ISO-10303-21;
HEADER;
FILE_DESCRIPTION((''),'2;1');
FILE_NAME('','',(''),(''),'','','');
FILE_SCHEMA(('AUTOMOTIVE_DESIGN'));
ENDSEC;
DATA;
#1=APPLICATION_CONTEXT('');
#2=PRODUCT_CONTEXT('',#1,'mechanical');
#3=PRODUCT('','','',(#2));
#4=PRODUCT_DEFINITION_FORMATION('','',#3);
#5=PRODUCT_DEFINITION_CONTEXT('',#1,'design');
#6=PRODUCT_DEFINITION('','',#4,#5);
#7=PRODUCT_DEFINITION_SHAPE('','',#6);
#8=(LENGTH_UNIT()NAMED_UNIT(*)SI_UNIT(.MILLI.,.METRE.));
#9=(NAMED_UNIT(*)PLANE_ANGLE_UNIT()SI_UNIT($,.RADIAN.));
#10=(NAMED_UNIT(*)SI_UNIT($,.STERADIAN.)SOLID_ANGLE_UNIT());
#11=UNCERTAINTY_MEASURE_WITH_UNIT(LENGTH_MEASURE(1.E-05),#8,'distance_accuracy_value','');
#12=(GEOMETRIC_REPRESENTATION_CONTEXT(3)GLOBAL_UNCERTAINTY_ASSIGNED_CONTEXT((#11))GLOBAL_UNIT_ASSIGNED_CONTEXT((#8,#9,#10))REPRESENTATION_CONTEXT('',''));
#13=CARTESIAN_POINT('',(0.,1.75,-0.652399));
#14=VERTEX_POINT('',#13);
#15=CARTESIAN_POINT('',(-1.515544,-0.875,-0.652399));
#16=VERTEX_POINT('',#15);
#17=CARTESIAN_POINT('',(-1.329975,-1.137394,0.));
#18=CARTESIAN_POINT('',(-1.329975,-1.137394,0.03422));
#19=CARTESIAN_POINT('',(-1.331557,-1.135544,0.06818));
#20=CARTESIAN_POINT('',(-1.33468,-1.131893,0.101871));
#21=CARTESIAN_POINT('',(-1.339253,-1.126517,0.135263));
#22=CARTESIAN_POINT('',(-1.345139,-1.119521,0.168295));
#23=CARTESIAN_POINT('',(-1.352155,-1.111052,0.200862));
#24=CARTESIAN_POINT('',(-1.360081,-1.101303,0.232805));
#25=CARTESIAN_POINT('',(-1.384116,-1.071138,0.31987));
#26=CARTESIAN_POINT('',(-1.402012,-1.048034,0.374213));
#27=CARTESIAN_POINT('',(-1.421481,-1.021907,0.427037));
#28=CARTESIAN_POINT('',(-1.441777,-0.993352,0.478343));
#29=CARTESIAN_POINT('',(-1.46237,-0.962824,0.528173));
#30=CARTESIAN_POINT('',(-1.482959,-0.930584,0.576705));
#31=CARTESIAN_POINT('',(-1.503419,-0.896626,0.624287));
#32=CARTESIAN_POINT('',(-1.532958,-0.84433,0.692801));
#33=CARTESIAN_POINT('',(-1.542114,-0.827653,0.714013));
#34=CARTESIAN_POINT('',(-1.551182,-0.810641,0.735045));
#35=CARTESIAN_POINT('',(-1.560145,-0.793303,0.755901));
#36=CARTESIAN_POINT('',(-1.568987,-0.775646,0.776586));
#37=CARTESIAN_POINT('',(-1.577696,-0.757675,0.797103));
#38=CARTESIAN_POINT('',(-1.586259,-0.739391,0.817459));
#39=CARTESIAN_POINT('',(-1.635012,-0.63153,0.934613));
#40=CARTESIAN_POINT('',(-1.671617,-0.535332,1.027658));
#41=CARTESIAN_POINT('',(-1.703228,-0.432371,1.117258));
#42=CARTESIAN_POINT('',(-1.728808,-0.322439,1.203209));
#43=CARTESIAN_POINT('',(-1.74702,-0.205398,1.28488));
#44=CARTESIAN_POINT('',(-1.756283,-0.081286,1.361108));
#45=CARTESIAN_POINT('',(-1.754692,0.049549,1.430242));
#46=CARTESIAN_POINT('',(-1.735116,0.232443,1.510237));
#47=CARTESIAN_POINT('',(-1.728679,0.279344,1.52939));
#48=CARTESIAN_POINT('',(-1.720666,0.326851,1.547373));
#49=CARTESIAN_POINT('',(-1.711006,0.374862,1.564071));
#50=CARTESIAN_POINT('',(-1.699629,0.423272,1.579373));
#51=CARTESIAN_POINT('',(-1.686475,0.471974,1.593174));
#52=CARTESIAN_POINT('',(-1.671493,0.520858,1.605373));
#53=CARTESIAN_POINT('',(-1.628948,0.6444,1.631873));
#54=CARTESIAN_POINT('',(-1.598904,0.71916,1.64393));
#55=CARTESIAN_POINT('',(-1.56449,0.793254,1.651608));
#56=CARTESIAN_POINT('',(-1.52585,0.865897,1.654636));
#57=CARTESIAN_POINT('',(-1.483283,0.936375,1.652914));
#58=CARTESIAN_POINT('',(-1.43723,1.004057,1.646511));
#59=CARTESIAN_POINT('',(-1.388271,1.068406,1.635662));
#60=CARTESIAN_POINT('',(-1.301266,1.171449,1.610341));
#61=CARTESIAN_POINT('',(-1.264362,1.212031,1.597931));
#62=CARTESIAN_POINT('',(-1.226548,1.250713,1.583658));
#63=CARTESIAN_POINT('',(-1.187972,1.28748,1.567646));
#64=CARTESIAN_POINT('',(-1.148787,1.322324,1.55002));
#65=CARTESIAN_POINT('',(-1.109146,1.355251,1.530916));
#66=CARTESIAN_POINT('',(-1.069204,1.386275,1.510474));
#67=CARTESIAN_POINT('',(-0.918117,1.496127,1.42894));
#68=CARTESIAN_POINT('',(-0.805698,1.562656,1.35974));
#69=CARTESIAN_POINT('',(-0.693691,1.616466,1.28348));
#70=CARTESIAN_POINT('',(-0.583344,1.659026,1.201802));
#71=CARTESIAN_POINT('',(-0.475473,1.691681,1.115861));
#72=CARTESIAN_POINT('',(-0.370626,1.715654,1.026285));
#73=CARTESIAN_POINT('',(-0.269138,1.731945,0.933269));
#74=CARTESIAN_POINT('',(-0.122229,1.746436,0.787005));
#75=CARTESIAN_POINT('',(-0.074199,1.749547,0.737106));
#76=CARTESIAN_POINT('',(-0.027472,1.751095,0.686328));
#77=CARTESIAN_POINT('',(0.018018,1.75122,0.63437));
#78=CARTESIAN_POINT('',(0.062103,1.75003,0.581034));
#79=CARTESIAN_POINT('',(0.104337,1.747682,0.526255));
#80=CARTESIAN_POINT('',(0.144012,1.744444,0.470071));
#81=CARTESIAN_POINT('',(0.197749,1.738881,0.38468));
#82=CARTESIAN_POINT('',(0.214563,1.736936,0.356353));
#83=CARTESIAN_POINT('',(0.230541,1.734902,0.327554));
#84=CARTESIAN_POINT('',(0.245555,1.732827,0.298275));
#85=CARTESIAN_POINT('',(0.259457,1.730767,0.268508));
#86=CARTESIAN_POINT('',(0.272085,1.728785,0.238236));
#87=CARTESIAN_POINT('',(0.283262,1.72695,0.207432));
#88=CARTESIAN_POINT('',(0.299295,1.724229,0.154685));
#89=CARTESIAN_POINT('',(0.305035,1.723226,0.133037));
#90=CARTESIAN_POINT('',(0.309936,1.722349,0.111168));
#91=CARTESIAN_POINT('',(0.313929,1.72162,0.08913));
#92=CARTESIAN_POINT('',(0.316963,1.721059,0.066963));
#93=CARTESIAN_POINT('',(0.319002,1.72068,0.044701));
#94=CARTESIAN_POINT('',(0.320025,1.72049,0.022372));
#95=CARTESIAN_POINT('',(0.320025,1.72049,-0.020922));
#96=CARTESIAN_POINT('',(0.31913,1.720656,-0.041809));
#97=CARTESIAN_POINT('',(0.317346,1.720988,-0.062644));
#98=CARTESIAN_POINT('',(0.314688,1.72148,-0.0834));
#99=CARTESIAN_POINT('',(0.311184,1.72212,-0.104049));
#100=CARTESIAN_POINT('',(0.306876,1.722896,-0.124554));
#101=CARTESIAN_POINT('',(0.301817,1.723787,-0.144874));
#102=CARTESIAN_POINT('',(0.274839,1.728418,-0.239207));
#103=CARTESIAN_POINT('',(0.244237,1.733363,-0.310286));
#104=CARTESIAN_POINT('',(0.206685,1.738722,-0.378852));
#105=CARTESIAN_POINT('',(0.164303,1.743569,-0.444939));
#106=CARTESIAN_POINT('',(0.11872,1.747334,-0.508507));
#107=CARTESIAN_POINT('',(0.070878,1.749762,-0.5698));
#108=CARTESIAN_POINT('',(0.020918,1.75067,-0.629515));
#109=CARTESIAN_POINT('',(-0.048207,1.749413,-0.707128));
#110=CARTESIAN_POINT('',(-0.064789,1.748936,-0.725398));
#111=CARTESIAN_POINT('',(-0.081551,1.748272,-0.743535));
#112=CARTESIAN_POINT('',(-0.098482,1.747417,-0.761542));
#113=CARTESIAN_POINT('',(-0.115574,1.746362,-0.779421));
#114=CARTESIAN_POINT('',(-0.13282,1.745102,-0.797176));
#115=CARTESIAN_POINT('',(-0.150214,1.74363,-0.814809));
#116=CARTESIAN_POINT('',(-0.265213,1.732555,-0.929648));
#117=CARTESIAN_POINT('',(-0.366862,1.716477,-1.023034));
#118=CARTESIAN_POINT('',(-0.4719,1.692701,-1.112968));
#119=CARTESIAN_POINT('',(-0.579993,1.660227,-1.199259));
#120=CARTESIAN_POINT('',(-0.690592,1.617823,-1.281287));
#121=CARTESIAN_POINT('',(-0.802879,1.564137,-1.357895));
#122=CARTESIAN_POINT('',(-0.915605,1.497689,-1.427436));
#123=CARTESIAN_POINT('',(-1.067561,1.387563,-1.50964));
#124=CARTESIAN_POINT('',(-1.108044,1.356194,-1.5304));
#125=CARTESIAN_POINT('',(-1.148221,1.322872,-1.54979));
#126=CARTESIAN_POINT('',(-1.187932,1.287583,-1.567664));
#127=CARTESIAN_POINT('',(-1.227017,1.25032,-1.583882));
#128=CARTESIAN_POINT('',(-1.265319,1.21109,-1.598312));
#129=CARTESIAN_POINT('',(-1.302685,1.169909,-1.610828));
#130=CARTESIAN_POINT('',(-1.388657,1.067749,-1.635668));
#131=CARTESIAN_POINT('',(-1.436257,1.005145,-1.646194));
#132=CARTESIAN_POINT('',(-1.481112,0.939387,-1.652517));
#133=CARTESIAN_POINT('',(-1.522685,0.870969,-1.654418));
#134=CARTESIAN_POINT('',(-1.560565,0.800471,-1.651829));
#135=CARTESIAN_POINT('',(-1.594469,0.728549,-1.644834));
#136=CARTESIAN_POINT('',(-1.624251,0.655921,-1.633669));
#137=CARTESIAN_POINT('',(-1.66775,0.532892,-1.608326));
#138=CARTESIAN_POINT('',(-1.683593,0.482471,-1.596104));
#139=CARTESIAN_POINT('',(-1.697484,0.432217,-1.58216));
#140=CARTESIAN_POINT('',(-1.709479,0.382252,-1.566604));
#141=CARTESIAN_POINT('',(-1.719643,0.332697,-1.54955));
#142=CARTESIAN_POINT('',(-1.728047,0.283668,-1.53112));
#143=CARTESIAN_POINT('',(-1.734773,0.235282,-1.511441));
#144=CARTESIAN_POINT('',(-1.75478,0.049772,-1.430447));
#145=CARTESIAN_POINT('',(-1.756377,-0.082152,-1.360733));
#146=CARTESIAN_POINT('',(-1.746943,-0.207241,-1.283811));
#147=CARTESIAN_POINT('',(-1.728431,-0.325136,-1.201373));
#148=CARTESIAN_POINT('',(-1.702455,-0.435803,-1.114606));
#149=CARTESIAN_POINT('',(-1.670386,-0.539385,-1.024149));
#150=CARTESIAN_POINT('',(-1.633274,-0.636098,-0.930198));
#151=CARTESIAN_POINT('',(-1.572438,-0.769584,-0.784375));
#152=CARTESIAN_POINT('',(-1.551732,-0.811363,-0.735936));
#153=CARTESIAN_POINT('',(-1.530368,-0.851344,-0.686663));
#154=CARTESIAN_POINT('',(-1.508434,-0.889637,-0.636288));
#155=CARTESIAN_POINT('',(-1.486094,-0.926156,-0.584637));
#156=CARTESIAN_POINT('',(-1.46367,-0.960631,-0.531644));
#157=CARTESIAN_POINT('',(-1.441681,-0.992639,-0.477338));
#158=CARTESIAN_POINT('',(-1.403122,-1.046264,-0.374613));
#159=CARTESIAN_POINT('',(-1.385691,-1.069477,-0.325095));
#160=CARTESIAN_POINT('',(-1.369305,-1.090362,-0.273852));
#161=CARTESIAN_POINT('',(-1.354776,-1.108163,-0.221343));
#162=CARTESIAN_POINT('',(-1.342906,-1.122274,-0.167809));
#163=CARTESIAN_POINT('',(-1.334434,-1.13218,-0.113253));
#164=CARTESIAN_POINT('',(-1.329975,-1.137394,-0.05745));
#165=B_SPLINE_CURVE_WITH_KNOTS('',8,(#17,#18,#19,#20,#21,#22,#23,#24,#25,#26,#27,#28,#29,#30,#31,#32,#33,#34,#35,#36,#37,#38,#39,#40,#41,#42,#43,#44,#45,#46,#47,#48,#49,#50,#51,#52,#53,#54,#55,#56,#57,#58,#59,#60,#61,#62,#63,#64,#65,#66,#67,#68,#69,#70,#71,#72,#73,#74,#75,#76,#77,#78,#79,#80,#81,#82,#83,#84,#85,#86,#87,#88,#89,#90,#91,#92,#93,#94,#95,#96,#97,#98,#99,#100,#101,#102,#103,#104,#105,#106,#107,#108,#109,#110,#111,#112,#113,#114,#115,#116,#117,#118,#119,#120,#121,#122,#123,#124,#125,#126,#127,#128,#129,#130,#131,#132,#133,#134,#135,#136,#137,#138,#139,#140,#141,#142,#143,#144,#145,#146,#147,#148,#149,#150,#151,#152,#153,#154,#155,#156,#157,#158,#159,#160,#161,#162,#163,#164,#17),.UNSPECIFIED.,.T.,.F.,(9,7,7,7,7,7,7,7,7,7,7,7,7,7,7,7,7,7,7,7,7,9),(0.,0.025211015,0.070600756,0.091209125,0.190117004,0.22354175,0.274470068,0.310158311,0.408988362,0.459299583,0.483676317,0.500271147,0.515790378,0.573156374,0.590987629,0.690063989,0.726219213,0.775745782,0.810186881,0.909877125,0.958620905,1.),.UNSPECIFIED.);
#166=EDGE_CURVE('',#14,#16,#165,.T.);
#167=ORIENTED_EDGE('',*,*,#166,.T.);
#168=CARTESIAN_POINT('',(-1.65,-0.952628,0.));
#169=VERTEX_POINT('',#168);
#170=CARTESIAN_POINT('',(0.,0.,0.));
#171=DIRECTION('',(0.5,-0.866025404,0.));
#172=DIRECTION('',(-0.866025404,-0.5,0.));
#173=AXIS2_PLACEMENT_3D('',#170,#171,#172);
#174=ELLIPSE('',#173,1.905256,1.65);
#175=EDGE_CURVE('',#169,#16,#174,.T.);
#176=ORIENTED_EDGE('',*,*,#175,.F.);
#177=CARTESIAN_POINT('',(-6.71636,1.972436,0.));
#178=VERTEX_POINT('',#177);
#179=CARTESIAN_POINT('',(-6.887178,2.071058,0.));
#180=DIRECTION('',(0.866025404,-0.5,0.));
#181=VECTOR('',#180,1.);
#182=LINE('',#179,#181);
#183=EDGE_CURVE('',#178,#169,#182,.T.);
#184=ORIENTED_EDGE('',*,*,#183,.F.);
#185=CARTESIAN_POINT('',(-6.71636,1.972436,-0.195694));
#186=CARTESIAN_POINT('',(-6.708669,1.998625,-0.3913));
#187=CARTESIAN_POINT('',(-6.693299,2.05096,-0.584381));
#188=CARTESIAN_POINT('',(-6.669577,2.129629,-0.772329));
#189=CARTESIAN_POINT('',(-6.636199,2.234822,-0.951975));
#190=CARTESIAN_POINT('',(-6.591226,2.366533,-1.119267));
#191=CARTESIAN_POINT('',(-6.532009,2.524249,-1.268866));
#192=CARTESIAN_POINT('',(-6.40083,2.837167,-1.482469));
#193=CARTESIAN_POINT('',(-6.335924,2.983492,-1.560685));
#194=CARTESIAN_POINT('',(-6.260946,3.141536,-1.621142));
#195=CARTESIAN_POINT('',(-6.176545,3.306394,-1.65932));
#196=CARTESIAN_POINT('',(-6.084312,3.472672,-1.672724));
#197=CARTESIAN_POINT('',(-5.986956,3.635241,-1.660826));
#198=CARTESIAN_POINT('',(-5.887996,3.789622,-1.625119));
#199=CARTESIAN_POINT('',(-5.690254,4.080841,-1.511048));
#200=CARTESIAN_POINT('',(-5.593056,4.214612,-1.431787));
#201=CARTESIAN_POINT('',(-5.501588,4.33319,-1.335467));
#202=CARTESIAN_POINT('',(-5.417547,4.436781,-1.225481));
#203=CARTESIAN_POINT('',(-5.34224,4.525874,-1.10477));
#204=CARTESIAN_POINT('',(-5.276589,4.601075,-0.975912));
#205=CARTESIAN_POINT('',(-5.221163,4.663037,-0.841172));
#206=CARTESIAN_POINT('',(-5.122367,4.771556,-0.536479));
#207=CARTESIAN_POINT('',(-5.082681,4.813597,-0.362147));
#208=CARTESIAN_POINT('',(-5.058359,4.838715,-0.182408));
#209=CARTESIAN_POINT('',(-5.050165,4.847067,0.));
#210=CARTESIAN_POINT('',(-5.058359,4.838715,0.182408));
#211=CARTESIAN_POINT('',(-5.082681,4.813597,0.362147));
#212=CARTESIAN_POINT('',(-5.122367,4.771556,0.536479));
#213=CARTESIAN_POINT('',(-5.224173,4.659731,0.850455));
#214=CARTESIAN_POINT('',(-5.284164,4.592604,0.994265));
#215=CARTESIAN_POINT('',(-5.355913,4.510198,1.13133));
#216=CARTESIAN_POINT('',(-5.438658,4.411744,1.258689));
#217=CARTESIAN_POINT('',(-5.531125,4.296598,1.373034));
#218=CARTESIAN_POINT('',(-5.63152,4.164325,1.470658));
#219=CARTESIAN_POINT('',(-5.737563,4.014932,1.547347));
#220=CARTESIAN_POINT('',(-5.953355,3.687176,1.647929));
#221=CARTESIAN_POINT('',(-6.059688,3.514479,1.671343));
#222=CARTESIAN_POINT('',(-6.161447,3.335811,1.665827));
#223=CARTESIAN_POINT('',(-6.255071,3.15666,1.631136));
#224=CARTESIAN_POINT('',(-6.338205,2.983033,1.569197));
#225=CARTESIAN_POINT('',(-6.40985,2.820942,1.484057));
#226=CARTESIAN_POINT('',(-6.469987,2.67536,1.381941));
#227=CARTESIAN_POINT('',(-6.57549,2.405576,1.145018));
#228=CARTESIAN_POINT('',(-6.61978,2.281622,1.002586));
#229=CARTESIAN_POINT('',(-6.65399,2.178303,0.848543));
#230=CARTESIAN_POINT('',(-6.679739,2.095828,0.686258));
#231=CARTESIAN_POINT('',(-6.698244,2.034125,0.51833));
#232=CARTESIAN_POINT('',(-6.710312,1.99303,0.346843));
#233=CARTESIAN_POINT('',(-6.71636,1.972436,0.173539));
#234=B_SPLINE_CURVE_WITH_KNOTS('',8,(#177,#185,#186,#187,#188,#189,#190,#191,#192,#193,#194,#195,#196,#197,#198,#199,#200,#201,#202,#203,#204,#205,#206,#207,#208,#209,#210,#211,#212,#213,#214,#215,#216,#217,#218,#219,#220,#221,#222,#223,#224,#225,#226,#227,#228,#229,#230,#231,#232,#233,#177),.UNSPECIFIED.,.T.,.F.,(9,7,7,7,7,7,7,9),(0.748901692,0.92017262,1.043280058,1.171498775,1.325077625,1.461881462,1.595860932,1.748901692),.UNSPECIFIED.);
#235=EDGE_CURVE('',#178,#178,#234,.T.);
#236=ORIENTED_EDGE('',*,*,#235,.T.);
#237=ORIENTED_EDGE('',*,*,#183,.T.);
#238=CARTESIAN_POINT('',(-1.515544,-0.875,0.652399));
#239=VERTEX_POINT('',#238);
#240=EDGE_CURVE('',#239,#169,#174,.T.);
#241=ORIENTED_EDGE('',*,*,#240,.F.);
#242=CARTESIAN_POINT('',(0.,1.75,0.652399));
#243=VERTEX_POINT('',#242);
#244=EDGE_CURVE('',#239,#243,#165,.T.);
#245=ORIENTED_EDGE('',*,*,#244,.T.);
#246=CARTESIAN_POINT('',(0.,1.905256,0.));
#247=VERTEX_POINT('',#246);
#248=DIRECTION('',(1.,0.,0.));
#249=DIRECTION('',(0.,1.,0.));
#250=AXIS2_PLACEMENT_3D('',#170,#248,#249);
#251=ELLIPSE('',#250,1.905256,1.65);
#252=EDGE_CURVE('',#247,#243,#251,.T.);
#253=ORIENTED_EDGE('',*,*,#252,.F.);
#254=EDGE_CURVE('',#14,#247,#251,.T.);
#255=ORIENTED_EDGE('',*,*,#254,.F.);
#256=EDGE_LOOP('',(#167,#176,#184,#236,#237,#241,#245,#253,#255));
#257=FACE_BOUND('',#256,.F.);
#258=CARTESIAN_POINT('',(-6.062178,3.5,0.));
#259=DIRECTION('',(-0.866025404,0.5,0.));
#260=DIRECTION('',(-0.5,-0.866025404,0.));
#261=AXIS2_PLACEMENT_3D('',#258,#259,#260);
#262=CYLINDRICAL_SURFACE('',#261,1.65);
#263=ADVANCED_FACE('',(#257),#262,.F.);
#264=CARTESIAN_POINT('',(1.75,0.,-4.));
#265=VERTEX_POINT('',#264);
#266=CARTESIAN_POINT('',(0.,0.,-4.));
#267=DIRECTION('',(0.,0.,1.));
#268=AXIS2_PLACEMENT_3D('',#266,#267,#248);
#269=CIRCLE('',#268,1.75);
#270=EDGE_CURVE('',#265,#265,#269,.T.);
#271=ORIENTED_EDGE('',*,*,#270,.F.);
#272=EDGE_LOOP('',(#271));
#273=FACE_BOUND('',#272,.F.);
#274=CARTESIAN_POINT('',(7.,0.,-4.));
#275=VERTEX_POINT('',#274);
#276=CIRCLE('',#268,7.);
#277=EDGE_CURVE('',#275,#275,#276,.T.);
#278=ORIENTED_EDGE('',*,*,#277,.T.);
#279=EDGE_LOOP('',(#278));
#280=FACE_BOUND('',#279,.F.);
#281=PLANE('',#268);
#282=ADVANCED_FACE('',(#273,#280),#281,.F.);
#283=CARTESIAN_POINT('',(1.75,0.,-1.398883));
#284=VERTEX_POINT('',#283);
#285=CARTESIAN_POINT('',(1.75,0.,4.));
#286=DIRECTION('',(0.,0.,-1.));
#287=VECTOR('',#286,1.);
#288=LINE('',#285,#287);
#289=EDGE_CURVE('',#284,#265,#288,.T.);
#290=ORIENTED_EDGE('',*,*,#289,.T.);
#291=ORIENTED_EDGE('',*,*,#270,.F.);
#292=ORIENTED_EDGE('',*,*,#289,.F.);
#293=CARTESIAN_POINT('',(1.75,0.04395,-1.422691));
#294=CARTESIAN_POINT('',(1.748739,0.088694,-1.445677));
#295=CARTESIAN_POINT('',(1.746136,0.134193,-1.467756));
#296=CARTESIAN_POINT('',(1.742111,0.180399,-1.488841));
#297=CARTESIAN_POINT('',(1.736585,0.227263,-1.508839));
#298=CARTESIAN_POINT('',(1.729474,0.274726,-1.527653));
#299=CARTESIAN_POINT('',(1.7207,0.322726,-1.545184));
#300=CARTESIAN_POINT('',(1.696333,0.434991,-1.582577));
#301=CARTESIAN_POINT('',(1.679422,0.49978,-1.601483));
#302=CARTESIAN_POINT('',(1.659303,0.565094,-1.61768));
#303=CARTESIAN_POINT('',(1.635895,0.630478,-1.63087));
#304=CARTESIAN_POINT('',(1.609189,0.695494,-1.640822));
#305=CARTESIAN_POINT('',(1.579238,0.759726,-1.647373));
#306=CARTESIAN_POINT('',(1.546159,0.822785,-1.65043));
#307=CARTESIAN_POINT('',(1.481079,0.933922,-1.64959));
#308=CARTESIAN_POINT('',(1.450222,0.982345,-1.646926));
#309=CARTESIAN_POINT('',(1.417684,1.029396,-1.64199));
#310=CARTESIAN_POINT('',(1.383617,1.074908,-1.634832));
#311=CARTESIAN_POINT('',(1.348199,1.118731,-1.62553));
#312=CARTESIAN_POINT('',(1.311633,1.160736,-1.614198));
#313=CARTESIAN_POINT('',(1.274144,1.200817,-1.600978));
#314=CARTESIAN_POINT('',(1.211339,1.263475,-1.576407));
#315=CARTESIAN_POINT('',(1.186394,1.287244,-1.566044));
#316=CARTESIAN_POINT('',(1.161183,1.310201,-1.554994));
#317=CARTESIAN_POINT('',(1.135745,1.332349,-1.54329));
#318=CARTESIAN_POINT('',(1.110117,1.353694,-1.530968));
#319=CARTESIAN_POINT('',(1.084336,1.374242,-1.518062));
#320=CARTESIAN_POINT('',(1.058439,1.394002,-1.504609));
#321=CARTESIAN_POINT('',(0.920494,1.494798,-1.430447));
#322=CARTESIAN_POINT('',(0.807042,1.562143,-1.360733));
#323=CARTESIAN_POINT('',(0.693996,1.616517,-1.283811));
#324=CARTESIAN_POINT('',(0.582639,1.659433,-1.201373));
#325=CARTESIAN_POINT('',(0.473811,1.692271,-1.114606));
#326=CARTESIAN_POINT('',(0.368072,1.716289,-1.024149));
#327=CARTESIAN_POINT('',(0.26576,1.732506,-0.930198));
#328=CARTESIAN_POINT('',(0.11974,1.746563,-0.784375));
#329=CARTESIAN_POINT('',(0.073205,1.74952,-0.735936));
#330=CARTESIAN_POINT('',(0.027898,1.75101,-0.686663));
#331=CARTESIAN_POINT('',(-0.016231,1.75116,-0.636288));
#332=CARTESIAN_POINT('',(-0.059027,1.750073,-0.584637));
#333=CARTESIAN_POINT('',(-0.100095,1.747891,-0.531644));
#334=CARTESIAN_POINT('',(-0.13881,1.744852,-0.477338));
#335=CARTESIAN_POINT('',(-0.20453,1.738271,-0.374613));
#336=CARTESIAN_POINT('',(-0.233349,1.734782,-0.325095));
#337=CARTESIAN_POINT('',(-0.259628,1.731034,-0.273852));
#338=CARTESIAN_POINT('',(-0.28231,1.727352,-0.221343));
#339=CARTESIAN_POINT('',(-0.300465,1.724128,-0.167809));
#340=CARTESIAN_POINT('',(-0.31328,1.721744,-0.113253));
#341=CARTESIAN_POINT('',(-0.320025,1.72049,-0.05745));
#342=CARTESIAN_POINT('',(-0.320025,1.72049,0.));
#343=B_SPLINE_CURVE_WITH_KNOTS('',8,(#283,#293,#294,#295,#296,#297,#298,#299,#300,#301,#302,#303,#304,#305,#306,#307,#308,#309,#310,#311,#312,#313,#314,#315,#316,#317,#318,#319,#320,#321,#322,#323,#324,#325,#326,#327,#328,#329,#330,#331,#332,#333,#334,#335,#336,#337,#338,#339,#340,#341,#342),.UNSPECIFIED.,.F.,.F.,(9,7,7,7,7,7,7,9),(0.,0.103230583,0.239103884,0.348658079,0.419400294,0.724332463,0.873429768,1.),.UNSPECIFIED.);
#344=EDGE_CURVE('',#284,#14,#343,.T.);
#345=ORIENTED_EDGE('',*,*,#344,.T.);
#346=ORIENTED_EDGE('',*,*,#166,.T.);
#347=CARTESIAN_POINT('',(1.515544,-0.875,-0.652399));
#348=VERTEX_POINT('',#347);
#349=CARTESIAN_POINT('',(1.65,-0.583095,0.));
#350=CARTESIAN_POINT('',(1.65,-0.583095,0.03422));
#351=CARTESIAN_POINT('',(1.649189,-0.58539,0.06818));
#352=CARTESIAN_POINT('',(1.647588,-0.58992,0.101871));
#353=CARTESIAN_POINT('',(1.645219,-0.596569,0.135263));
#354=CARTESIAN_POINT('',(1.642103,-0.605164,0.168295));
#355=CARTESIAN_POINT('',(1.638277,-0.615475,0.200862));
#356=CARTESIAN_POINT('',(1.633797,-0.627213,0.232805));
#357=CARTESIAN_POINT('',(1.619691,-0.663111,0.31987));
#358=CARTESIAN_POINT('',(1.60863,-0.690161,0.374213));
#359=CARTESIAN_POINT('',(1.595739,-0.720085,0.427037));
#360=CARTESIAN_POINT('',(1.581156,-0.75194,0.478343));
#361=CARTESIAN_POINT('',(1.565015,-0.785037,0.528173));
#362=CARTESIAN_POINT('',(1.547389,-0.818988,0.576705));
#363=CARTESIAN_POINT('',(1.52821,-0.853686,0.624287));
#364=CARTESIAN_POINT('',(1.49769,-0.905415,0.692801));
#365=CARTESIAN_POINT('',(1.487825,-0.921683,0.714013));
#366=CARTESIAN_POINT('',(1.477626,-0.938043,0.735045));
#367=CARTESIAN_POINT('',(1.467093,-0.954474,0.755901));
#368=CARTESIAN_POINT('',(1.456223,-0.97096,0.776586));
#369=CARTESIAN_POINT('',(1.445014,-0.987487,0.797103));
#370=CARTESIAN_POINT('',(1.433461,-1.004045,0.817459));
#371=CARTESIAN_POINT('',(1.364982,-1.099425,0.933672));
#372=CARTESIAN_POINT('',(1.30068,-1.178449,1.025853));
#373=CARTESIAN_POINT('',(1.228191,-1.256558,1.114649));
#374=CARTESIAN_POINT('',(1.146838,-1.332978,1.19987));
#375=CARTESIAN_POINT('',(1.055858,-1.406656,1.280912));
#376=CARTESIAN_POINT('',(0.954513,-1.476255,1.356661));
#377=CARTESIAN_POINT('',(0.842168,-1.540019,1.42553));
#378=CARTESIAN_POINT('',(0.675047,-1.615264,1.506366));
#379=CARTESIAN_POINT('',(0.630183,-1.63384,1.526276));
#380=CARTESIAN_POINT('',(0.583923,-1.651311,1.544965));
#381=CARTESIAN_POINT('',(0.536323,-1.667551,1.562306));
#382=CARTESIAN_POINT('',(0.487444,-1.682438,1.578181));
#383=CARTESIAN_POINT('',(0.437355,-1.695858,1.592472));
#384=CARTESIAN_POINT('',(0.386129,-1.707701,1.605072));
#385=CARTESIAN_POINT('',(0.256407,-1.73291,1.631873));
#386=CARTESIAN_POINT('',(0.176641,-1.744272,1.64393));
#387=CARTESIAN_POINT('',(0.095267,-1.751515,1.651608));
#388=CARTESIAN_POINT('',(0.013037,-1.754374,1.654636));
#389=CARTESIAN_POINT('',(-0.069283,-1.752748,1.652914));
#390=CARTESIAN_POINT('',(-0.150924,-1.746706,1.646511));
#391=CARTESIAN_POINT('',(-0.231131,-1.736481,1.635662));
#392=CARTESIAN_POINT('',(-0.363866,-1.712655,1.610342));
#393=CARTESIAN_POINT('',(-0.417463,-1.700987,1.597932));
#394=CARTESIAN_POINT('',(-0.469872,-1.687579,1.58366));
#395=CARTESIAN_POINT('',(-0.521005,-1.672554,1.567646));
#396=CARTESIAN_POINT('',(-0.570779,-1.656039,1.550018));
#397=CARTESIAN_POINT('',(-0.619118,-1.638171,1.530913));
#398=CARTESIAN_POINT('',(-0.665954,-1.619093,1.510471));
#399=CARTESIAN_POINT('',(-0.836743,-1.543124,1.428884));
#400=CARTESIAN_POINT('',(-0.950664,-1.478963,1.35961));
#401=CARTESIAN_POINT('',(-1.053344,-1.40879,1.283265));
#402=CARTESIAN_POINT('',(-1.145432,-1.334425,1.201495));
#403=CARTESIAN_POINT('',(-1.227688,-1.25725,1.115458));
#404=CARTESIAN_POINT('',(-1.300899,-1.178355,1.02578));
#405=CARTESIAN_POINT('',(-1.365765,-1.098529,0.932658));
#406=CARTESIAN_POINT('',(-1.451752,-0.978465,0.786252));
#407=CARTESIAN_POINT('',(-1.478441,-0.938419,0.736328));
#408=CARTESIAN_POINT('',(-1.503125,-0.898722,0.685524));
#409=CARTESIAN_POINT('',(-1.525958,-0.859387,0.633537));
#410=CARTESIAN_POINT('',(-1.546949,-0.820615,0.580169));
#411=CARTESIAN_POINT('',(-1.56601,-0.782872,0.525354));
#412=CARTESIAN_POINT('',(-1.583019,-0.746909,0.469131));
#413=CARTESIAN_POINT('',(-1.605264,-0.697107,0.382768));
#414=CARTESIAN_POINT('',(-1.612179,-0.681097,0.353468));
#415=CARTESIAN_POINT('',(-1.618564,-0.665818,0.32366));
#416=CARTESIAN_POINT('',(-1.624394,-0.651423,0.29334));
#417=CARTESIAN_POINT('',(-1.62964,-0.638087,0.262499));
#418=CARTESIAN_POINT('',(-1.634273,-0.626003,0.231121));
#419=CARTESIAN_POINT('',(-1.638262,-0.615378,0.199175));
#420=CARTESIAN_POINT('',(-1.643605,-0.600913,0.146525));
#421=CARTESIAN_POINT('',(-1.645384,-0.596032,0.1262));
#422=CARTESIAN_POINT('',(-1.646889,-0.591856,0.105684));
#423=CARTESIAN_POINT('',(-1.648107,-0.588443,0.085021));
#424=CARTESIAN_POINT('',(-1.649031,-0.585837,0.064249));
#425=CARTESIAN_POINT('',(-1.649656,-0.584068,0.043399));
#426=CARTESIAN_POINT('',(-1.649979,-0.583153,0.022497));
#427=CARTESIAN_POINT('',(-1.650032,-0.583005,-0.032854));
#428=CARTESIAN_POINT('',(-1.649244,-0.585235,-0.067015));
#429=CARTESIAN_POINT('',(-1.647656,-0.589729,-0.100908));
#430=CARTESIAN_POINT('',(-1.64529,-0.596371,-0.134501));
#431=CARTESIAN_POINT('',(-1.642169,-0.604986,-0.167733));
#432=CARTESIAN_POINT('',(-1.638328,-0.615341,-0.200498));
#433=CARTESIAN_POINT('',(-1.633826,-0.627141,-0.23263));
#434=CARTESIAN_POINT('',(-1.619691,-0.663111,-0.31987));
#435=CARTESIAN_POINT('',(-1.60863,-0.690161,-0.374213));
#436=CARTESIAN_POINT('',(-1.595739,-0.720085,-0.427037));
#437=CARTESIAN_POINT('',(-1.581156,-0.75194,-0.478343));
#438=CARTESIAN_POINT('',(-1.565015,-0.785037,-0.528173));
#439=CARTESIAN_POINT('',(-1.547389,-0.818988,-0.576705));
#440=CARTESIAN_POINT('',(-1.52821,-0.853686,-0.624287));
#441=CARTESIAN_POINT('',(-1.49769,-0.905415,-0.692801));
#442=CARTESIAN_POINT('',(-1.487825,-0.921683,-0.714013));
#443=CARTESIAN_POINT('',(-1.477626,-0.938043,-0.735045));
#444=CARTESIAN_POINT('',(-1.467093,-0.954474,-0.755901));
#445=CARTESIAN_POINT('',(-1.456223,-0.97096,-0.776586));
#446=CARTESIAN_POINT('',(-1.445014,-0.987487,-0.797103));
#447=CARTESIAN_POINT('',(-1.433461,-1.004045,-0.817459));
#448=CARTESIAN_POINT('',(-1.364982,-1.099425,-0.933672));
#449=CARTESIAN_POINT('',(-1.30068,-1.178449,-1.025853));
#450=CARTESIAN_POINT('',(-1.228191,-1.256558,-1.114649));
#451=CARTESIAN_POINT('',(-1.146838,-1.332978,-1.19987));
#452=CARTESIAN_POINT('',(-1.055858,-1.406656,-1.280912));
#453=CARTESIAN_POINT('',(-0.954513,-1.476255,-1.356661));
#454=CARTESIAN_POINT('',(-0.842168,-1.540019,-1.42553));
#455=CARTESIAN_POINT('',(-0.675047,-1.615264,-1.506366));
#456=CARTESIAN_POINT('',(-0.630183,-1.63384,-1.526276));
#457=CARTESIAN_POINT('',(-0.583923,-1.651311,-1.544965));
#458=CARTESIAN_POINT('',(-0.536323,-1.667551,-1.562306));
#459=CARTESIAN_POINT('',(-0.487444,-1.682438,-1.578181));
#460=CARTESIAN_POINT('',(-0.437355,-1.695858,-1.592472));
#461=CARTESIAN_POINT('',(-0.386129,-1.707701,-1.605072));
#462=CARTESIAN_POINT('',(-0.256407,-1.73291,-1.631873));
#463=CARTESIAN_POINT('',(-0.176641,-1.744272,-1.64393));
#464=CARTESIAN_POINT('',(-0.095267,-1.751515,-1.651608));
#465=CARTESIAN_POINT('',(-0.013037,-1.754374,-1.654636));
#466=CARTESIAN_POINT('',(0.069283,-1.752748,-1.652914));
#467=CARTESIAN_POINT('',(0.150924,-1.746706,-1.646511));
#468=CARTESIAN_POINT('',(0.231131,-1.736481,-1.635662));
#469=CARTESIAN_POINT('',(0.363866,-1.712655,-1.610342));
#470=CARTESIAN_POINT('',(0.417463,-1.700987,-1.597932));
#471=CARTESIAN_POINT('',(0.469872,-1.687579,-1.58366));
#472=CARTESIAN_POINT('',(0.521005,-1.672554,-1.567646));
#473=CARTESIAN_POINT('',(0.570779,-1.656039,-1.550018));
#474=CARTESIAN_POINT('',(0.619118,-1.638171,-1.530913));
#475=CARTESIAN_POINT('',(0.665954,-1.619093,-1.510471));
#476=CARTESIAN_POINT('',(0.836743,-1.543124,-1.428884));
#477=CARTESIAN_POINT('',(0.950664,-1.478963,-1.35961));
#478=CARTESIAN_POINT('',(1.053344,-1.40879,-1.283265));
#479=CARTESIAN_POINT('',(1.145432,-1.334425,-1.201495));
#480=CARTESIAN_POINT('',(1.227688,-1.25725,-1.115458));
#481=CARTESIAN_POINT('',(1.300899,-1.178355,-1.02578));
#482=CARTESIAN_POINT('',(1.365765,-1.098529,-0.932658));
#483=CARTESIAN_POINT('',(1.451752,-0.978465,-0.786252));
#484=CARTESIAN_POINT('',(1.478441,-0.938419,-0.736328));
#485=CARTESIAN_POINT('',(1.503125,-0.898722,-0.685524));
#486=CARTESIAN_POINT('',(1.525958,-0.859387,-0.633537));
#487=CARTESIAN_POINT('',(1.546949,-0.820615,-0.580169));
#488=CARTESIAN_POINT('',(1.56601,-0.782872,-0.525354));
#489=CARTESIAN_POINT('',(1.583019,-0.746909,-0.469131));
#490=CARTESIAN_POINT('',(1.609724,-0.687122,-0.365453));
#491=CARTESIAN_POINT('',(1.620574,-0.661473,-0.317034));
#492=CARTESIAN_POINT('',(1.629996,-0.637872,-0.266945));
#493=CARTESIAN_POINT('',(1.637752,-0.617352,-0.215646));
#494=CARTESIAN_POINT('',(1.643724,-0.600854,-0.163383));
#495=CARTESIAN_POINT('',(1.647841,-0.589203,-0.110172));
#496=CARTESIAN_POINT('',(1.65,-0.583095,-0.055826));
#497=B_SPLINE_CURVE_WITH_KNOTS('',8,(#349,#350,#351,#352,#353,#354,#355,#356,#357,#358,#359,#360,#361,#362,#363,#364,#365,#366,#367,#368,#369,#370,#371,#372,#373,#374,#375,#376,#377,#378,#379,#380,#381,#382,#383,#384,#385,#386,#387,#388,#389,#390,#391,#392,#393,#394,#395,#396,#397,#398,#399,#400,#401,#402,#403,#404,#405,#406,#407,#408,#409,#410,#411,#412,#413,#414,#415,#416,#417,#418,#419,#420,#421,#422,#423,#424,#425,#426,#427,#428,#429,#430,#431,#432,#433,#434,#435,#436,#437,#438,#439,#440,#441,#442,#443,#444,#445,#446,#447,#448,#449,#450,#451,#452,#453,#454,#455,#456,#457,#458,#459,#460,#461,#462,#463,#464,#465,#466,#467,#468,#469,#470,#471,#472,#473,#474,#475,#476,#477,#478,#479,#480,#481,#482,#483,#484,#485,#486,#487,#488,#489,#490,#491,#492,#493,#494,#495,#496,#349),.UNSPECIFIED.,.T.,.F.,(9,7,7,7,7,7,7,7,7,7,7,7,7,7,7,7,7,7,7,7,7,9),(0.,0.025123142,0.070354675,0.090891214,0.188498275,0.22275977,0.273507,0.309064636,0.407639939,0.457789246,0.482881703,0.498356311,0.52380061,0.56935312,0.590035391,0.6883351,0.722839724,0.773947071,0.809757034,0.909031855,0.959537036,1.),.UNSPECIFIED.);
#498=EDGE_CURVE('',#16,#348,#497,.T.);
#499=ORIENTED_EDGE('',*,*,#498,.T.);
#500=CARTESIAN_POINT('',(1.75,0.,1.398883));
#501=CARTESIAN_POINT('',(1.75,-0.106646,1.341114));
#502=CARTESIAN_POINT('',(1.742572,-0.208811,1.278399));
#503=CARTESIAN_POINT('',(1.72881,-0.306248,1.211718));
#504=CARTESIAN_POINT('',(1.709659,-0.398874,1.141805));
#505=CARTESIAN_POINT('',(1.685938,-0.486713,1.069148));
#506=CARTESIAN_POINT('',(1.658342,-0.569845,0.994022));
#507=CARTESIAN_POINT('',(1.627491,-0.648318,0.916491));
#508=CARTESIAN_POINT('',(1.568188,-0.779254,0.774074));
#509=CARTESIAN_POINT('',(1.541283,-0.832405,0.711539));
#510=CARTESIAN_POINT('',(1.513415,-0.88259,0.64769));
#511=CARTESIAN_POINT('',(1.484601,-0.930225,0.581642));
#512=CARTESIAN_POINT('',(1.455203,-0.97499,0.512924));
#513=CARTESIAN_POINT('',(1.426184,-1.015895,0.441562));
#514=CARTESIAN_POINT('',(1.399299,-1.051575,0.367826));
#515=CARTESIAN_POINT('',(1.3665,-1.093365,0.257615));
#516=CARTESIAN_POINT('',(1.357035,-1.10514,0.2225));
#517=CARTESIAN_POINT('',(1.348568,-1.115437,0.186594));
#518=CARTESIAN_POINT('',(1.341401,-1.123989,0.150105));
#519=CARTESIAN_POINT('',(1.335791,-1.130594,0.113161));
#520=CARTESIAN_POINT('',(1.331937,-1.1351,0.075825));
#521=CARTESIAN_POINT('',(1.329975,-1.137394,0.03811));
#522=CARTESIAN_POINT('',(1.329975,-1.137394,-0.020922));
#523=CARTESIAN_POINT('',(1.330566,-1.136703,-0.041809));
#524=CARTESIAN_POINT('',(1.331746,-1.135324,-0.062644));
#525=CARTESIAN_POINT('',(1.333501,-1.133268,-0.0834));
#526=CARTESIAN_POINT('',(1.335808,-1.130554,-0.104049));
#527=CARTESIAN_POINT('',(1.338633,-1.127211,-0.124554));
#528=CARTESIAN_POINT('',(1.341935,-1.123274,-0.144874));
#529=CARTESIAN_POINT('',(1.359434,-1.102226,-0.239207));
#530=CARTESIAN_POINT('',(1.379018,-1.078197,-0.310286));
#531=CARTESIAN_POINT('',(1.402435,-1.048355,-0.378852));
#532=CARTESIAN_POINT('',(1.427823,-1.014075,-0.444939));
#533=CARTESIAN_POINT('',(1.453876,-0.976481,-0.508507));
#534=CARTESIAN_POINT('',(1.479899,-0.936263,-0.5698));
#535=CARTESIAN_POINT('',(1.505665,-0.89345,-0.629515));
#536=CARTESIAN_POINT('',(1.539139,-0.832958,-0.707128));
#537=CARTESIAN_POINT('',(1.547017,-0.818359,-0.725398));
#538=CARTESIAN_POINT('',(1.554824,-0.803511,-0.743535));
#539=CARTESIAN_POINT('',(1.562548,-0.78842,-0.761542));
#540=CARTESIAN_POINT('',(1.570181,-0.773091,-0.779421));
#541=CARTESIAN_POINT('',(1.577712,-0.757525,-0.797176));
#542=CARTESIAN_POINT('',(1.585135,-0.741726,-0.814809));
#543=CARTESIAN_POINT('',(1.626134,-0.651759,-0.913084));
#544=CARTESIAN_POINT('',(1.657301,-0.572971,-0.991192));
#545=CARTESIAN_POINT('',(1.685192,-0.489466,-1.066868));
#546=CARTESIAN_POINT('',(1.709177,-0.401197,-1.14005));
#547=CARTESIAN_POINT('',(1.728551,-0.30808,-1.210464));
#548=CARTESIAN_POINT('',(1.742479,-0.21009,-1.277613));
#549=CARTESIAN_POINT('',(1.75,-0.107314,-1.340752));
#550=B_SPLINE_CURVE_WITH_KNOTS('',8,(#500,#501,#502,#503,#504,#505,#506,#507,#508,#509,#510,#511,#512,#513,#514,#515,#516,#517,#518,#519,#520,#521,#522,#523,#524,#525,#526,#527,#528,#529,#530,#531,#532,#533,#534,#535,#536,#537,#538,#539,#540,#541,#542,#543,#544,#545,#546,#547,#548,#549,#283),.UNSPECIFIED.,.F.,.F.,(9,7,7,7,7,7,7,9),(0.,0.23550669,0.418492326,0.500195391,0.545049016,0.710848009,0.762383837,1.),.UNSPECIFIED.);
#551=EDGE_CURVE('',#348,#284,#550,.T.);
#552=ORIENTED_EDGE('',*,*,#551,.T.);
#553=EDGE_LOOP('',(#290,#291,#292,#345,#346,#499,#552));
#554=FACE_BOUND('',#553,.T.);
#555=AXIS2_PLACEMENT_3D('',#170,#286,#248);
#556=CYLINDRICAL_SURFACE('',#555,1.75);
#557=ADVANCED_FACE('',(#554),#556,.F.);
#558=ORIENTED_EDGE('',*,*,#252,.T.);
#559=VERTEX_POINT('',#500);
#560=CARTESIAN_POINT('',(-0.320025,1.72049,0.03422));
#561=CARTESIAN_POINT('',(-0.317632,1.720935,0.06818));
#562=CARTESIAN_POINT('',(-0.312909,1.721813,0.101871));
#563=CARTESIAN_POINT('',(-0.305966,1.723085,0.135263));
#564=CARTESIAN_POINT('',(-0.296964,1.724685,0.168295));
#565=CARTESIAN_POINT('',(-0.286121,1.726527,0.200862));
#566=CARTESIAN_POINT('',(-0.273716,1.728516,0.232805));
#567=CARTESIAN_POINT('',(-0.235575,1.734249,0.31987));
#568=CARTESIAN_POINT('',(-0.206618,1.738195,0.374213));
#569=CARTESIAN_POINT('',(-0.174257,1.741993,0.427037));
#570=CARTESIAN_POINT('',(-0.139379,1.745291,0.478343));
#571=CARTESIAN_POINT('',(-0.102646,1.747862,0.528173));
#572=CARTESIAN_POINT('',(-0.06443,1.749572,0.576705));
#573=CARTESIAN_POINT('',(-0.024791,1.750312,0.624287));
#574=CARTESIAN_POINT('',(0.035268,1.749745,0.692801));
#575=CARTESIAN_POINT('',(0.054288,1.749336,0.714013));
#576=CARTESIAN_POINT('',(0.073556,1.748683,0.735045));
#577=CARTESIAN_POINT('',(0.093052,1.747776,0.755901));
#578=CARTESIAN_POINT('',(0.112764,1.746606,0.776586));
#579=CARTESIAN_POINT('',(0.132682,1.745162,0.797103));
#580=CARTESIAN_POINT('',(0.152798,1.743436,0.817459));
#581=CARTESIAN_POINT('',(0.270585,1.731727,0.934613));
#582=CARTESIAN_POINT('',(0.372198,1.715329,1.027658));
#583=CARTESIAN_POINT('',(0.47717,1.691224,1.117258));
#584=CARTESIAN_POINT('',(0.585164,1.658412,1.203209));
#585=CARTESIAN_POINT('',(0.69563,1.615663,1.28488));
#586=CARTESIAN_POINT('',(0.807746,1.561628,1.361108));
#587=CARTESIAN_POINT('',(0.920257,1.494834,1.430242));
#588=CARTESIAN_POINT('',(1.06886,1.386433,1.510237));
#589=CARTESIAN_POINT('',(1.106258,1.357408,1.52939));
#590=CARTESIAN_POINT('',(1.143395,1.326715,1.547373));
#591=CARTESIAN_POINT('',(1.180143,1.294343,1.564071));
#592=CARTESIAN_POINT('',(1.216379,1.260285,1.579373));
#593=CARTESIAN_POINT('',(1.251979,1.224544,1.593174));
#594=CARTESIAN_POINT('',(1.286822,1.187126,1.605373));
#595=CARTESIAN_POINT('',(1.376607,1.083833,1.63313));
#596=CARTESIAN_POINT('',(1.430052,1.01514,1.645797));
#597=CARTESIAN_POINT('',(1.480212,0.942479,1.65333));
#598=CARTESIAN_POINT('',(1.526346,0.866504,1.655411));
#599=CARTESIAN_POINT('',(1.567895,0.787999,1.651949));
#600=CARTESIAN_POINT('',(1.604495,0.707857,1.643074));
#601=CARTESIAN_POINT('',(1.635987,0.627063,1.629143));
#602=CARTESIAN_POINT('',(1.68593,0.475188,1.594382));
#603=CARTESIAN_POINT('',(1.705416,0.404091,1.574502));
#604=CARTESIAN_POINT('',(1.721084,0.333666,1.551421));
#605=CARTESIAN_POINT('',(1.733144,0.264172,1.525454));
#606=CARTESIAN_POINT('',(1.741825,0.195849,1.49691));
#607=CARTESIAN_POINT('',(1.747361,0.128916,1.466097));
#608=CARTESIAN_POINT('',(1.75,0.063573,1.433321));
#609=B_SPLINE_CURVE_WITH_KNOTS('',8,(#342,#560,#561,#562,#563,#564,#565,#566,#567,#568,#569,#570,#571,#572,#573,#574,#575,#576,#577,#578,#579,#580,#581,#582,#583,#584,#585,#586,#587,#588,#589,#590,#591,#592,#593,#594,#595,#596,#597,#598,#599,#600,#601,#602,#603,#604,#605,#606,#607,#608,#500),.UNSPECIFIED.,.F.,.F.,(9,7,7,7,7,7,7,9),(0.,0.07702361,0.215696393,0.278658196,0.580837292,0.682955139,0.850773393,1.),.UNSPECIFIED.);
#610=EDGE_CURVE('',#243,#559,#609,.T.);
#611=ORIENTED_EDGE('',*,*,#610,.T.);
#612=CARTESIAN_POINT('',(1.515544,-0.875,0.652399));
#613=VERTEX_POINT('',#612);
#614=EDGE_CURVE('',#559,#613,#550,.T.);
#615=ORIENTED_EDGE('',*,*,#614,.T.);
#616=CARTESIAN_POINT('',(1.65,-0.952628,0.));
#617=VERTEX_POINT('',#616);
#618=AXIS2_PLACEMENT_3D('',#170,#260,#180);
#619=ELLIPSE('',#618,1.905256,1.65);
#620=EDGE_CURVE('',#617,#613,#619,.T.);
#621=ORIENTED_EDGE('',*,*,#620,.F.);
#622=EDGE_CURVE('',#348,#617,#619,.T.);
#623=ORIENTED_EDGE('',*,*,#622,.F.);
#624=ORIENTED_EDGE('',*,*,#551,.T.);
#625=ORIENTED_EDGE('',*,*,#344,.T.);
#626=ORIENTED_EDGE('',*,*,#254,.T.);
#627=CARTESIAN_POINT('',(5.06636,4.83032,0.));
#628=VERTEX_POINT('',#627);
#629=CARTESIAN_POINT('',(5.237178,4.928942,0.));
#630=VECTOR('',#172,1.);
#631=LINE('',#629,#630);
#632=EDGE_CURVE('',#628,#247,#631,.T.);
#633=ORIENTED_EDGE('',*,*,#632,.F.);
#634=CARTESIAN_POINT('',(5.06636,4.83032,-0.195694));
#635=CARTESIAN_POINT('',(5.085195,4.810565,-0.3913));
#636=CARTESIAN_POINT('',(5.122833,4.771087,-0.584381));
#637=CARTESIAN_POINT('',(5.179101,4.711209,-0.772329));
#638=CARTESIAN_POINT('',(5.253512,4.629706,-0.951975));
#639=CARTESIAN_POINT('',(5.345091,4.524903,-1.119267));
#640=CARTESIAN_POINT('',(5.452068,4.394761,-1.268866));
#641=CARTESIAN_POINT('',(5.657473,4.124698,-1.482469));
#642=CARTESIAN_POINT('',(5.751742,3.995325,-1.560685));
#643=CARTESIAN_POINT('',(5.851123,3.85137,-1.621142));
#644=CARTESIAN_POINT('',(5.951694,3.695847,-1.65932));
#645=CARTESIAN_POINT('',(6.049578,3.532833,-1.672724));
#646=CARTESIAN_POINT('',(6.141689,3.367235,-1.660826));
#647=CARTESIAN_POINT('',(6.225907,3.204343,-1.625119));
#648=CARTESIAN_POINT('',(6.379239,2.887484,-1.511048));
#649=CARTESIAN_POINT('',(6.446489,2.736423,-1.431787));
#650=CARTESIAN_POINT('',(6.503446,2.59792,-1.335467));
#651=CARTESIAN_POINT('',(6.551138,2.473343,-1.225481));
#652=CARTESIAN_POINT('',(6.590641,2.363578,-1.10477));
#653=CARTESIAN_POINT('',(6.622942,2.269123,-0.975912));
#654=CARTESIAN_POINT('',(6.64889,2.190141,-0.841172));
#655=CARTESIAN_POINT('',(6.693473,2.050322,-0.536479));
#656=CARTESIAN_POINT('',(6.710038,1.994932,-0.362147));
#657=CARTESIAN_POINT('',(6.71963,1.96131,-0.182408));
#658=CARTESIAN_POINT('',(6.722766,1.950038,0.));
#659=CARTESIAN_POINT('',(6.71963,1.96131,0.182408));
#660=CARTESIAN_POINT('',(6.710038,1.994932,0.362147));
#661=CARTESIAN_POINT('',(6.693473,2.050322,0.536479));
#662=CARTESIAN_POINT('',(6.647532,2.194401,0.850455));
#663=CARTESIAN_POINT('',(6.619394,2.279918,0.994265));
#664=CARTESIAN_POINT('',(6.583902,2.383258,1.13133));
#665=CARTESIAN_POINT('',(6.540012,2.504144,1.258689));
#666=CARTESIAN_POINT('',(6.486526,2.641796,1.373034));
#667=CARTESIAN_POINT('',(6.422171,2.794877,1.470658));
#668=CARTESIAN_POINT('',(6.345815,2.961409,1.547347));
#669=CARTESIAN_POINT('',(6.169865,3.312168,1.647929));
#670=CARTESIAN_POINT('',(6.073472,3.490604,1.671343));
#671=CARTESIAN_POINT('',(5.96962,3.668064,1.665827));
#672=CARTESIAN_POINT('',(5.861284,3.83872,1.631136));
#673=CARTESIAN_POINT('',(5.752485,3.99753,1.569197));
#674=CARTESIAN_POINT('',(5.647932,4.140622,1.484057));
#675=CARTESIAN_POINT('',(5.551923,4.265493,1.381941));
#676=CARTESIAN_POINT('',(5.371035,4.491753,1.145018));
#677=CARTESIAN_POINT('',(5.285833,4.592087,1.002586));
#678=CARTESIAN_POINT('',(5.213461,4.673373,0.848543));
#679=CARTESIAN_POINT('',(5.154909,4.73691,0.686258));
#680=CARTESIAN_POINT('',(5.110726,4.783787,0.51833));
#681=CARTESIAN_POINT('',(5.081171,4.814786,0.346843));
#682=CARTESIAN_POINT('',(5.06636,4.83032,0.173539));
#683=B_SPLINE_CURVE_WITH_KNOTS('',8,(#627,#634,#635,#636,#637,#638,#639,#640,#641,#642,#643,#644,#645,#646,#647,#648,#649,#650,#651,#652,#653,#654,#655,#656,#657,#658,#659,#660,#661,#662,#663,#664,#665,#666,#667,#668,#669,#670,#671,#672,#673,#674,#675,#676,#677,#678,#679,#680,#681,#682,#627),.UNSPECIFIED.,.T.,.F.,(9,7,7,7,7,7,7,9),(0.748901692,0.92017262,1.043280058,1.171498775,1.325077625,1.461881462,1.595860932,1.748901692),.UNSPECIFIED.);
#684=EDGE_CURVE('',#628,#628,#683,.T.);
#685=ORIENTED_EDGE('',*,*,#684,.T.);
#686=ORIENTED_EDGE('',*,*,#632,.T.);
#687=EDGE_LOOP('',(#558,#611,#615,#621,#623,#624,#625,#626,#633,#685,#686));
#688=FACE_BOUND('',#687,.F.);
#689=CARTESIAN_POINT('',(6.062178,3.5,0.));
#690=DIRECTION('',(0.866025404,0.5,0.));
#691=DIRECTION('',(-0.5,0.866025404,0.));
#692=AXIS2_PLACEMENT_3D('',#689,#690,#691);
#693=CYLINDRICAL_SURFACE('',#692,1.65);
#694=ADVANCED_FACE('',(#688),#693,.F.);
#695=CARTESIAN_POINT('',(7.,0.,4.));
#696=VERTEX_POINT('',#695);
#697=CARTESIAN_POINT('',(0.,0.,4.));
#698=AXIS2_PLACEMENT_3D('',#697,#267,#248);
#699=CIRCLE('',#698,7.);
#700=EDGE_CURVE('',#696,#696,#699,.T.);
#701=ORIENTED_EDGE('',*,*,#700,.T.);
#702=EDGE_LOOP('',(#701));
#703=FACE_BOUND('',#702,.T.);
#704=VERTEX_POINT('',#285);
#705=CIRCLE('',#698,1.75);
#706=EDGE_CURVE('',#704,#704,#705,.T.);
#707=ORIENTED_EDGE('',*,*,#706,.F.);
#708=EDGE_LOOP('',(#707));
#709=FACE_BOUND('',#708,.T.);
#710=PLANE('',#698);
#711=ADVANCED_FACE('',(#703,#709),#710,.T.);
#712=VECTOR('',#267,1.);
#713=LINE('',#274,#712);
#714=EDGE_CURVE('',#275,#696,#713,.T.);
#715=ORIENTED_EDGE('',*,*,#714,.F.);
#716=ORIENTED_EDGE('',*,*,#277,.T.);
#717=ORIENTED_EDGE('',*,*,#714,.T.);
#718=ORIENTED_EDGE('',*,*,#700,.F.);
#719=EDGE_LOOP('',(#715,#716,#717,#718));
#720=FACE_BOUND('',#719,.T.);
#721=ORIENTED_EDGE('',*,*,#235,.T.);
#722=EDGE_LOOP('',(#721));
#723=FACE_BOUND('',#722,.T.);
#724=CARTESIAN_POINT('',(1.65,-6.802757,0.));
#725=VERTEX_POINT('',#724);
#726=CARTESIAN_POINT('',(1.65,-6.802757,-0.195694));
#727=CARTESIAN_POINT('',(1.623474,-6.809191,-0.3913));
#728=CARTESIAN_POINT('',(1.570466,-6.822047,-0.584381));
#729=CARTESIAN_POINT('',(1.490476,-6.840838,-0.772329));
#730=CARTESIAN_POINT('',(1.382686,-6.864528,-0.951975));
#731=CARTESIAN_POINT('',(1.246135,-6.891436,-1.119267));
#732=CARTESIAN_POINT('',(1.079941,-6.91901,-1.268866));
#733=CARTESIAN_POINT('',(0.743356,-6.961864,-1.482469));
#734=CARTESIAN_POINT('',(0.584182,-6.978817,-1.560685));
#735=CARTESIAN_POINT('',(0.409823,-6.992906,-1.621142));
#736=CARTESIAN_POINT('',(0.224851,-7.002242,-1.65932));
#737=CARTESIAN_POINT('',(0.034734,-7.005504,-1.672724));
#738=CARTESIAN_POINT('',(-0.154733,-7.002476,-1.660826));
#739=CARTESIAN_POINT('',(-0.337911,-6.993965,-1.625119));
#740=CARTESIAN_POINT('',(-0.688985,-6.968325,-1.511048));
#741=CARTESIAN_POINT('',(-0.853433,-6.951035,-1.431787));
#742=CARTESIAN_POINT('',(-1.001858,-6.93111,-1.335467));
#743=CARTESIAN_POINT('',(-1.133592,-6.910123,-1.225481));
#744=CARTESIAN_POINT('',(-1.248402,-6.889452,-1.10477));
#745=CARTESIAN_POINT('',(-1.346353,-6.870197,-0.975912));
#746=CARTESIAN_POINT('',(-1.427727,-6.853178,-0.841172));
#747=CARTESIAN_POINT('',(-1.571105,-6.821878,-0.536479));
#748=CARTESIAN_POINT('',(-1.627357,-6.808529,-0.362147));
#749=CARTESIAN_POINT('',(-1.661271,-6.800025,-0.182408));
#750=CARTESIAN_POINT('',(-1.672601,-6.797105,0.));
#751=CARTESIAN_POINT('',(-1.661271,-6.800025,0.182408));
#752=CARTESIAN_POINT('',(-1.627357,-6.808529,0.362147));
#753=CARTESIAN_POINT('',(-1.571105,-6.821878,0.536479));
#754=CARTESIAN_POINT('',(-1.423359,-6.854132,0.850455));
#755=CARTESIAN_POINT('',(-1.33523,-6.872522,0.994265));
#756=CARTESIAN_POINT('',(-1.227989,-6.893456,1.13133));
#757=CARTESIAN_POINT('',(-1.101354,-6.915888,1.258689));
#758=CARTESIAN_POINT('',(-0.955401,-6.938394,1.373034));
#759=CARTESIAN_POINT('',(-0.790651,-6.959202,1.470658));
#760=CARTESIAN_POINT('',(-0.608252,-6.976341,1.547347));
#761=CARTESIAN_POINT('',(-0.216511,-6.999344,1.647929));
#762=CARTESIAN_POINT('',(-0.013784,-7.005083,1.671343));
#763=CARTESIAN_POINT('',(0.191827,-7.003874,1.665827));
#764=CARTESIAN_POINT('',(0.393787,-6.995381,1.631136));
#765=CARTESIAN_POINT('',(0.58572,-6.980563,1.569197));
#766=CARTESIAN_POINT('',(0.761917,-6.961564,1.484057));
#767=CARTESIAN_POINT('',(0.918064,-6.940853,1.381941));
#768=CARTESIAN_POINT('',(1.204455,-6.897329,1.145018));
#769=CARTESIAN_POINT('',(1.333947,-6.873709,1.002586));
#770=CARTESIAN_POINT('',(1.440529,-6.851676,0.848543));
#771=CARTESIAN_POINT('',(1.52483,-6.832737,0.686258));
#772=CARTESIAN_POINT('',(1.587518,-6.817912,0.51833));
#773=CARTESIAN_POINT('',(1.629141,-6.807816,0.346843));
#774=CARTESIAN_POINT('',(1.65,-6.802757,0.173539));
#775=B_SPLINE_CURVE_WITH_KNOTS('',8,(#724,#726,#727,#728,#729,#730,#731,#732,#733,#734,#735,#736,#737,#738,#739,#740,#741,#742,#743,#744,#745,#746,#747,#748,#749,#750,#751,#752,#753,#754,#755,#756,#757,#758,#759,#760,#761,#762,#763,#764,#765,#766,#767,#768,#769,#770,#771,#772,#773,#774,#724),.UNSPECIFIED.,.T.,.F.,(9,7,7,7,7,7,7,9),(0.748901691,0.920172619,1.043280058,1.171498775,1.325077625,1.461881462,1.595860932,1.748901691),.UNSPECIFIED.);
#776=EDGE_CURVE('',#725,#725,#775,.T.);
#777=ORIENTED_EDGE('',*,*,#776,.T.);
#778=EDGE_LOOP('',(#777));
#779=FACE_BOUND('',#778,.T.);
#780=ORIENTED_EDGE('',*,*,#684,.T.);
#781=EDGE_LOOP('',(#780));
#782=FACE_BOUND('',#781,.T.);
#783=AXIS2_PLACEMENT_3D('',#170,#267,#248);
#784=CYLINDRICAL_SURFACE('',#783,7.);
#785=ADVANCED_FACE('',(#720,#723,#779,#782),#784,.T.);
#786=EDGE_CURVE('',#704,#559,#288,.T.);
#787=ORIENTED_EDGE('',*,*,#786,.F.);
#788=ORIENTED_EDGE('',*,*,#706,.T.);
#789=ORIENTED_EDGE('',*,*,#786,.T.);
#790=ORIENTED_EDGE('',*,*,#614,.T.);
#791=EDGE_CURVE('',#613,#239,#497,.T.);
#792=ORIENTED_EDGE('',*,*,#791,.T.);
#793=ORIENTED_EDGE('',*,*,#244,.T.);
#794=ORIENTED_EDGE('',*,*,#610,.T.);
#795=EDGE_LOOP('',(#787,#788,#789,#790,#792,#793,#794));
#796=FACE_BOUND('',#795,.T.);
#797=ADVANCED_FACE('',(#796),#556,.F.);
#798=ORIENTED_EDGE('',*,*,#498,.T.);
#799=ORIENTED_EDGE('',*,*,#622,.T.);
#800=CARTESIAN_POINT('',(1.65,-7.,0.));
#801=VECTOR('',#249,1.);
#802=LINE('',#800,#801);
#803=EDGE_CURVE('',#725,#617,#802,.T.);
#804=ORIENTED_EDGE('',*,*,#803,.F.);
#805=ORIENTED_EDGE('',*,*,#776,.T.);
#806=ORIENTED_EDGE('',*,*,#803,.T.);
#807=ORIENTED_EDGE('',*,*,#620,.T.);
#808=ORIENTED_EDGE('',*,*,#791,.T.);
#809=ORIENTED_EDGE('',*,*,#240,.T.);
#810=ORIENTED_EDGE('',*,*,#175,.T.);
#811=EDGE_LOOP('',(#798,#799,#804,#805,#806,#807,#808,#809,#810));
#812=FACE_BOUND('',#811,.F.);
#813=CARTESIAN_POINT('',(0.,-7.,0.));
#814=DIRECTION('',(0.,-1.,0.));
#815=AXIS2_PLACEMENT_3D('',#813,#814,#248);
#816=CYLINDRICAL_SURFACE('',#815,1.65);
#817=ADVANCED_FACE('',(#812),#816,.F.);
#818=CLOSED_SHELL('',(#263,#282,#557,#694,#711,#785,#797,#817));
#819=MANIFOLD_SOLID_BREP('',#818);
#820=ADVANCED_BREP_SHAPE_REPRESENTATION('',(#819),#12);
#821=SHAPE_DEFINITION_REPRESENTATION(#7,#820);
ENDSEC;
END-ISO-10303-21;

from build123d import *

# Parameters (mm, degrees)
F0_R     = 7
F0_R_2   = 1.75
F1_DEPTH = 4
F2_R     = 1.65
F3_DEPTH = 7
F4_COUNT = 3
F5_DEPTH = 7
F6_DEPTH = 7
F7_DEPTH = 7


with BuildPart() as f1:
    # F0 (on Top) → F1 (new body, symmetric)
    with BuildSketch(Plane.XY):
        Circle(F0_R)
        Circle(F0_R_2, mode=Mode.SUBTRACT)
    extrude(amount=F1_DEPTH, both=True)


with BuildPart() as f3:
    # F2 (on Front) → F3 (new body)
    with BuildSketch(Plane.XZ):
        Circle(F2_R)
    extrude(amount=F3_DEPTH)


with BuildPart() as f4_1:
    # F4: instance of F3
    add(f3.part.rotate(Axis((0, 0, 4), (0, 0, 1)), 1 * 360 / F4_COUNT))


with BuildPart() as f4_2:
    # F4: instance of F3
    add(f3.part.rotate(Axis((0, 0, 4), (0, 0, 1)), 2 * 360 / F4_COUNT))


with BuildPart() as f5_tool:
    # F5 (cut): a face of the model
    f5_faces = [f3.part.faces().sort_by_distance(p)[0] for p in [
        (0, -7, 0),
    ]]
    extrude(f5_faces, amount=-F5_DEPTH)


with BuildPart() as f1_1:
    add(f1.part)

    # F5: cut by f5_tool
    add(f5_tool.part, mode=Mode.SUBTRACT)


with BuildPart() as f3_1:
    add(f3.part)

    # F5: cut by f5_tool
    add(f5_tool.part, mode=Mode.SUBTRACT)


with BuildPart() as f4_1_1:
    add(f4_1.part)

    # F5: cut by f5_tool
    add(f5_tool.part, mode=Mode.SUBTRACT)


with BuildPart() as f4_2_1:
    add(f4_2.part)

    # F5: cut by f5_tool
    add(f5_tool.part, mode=Mode.SUBTRACT)


with BuildPart() as f6_tool:
    # F6 (cut): a face of the model
    f6_faces = [f4_1_1.part.faces().sort_by_distance(p)[0] for p in [
        (6.0621778265, 3.5, 0),
    ]]
    extrude(f6_faces, amount=-F6_DEPTH)


with BuildPart() as f1_2:
    add(f1_1.part)

    # F6: cut by f6_tool
    add(f6_tool.part, mode=Mode.SUBTRACT)


with BuildPart() as f4_1_2:
    add(f4_1_1.part)

    # F6: cut by f6_tool
    add(f6_tool.part, mode=Mode.SUBTRACT)


with BuildPart() as f4_2_2:
    add(f4_2_1.part)

    # F6: cut by f6_tool
    add(f6_tool.part, mode=Mode.SUBTRACT)


with BuildPart() as f7_tool:
    # F7 (cut): a face of the model
    f7_faces = [f4_2_2.part.faces().sort_by_distance(p)[0] for p in [
        (-6.0621778265, 3.5, 0),
    ]]
    extrude(f7_faces, amount=-F7_DEPTH)


with BuildPart() as f1_3:
    add(f1_2.part)

    # F7: cut by f7_tool
    add(f7_tool.part, mode=Mode.SUBTRACT)


with BuildPart() as f4_2_3:
    add(f4_2_2.part)

    # F7: cut by f7_tool
    add(f7_tool.part, mode=Mode.SUBTRACT)


solid = f1_3.part
